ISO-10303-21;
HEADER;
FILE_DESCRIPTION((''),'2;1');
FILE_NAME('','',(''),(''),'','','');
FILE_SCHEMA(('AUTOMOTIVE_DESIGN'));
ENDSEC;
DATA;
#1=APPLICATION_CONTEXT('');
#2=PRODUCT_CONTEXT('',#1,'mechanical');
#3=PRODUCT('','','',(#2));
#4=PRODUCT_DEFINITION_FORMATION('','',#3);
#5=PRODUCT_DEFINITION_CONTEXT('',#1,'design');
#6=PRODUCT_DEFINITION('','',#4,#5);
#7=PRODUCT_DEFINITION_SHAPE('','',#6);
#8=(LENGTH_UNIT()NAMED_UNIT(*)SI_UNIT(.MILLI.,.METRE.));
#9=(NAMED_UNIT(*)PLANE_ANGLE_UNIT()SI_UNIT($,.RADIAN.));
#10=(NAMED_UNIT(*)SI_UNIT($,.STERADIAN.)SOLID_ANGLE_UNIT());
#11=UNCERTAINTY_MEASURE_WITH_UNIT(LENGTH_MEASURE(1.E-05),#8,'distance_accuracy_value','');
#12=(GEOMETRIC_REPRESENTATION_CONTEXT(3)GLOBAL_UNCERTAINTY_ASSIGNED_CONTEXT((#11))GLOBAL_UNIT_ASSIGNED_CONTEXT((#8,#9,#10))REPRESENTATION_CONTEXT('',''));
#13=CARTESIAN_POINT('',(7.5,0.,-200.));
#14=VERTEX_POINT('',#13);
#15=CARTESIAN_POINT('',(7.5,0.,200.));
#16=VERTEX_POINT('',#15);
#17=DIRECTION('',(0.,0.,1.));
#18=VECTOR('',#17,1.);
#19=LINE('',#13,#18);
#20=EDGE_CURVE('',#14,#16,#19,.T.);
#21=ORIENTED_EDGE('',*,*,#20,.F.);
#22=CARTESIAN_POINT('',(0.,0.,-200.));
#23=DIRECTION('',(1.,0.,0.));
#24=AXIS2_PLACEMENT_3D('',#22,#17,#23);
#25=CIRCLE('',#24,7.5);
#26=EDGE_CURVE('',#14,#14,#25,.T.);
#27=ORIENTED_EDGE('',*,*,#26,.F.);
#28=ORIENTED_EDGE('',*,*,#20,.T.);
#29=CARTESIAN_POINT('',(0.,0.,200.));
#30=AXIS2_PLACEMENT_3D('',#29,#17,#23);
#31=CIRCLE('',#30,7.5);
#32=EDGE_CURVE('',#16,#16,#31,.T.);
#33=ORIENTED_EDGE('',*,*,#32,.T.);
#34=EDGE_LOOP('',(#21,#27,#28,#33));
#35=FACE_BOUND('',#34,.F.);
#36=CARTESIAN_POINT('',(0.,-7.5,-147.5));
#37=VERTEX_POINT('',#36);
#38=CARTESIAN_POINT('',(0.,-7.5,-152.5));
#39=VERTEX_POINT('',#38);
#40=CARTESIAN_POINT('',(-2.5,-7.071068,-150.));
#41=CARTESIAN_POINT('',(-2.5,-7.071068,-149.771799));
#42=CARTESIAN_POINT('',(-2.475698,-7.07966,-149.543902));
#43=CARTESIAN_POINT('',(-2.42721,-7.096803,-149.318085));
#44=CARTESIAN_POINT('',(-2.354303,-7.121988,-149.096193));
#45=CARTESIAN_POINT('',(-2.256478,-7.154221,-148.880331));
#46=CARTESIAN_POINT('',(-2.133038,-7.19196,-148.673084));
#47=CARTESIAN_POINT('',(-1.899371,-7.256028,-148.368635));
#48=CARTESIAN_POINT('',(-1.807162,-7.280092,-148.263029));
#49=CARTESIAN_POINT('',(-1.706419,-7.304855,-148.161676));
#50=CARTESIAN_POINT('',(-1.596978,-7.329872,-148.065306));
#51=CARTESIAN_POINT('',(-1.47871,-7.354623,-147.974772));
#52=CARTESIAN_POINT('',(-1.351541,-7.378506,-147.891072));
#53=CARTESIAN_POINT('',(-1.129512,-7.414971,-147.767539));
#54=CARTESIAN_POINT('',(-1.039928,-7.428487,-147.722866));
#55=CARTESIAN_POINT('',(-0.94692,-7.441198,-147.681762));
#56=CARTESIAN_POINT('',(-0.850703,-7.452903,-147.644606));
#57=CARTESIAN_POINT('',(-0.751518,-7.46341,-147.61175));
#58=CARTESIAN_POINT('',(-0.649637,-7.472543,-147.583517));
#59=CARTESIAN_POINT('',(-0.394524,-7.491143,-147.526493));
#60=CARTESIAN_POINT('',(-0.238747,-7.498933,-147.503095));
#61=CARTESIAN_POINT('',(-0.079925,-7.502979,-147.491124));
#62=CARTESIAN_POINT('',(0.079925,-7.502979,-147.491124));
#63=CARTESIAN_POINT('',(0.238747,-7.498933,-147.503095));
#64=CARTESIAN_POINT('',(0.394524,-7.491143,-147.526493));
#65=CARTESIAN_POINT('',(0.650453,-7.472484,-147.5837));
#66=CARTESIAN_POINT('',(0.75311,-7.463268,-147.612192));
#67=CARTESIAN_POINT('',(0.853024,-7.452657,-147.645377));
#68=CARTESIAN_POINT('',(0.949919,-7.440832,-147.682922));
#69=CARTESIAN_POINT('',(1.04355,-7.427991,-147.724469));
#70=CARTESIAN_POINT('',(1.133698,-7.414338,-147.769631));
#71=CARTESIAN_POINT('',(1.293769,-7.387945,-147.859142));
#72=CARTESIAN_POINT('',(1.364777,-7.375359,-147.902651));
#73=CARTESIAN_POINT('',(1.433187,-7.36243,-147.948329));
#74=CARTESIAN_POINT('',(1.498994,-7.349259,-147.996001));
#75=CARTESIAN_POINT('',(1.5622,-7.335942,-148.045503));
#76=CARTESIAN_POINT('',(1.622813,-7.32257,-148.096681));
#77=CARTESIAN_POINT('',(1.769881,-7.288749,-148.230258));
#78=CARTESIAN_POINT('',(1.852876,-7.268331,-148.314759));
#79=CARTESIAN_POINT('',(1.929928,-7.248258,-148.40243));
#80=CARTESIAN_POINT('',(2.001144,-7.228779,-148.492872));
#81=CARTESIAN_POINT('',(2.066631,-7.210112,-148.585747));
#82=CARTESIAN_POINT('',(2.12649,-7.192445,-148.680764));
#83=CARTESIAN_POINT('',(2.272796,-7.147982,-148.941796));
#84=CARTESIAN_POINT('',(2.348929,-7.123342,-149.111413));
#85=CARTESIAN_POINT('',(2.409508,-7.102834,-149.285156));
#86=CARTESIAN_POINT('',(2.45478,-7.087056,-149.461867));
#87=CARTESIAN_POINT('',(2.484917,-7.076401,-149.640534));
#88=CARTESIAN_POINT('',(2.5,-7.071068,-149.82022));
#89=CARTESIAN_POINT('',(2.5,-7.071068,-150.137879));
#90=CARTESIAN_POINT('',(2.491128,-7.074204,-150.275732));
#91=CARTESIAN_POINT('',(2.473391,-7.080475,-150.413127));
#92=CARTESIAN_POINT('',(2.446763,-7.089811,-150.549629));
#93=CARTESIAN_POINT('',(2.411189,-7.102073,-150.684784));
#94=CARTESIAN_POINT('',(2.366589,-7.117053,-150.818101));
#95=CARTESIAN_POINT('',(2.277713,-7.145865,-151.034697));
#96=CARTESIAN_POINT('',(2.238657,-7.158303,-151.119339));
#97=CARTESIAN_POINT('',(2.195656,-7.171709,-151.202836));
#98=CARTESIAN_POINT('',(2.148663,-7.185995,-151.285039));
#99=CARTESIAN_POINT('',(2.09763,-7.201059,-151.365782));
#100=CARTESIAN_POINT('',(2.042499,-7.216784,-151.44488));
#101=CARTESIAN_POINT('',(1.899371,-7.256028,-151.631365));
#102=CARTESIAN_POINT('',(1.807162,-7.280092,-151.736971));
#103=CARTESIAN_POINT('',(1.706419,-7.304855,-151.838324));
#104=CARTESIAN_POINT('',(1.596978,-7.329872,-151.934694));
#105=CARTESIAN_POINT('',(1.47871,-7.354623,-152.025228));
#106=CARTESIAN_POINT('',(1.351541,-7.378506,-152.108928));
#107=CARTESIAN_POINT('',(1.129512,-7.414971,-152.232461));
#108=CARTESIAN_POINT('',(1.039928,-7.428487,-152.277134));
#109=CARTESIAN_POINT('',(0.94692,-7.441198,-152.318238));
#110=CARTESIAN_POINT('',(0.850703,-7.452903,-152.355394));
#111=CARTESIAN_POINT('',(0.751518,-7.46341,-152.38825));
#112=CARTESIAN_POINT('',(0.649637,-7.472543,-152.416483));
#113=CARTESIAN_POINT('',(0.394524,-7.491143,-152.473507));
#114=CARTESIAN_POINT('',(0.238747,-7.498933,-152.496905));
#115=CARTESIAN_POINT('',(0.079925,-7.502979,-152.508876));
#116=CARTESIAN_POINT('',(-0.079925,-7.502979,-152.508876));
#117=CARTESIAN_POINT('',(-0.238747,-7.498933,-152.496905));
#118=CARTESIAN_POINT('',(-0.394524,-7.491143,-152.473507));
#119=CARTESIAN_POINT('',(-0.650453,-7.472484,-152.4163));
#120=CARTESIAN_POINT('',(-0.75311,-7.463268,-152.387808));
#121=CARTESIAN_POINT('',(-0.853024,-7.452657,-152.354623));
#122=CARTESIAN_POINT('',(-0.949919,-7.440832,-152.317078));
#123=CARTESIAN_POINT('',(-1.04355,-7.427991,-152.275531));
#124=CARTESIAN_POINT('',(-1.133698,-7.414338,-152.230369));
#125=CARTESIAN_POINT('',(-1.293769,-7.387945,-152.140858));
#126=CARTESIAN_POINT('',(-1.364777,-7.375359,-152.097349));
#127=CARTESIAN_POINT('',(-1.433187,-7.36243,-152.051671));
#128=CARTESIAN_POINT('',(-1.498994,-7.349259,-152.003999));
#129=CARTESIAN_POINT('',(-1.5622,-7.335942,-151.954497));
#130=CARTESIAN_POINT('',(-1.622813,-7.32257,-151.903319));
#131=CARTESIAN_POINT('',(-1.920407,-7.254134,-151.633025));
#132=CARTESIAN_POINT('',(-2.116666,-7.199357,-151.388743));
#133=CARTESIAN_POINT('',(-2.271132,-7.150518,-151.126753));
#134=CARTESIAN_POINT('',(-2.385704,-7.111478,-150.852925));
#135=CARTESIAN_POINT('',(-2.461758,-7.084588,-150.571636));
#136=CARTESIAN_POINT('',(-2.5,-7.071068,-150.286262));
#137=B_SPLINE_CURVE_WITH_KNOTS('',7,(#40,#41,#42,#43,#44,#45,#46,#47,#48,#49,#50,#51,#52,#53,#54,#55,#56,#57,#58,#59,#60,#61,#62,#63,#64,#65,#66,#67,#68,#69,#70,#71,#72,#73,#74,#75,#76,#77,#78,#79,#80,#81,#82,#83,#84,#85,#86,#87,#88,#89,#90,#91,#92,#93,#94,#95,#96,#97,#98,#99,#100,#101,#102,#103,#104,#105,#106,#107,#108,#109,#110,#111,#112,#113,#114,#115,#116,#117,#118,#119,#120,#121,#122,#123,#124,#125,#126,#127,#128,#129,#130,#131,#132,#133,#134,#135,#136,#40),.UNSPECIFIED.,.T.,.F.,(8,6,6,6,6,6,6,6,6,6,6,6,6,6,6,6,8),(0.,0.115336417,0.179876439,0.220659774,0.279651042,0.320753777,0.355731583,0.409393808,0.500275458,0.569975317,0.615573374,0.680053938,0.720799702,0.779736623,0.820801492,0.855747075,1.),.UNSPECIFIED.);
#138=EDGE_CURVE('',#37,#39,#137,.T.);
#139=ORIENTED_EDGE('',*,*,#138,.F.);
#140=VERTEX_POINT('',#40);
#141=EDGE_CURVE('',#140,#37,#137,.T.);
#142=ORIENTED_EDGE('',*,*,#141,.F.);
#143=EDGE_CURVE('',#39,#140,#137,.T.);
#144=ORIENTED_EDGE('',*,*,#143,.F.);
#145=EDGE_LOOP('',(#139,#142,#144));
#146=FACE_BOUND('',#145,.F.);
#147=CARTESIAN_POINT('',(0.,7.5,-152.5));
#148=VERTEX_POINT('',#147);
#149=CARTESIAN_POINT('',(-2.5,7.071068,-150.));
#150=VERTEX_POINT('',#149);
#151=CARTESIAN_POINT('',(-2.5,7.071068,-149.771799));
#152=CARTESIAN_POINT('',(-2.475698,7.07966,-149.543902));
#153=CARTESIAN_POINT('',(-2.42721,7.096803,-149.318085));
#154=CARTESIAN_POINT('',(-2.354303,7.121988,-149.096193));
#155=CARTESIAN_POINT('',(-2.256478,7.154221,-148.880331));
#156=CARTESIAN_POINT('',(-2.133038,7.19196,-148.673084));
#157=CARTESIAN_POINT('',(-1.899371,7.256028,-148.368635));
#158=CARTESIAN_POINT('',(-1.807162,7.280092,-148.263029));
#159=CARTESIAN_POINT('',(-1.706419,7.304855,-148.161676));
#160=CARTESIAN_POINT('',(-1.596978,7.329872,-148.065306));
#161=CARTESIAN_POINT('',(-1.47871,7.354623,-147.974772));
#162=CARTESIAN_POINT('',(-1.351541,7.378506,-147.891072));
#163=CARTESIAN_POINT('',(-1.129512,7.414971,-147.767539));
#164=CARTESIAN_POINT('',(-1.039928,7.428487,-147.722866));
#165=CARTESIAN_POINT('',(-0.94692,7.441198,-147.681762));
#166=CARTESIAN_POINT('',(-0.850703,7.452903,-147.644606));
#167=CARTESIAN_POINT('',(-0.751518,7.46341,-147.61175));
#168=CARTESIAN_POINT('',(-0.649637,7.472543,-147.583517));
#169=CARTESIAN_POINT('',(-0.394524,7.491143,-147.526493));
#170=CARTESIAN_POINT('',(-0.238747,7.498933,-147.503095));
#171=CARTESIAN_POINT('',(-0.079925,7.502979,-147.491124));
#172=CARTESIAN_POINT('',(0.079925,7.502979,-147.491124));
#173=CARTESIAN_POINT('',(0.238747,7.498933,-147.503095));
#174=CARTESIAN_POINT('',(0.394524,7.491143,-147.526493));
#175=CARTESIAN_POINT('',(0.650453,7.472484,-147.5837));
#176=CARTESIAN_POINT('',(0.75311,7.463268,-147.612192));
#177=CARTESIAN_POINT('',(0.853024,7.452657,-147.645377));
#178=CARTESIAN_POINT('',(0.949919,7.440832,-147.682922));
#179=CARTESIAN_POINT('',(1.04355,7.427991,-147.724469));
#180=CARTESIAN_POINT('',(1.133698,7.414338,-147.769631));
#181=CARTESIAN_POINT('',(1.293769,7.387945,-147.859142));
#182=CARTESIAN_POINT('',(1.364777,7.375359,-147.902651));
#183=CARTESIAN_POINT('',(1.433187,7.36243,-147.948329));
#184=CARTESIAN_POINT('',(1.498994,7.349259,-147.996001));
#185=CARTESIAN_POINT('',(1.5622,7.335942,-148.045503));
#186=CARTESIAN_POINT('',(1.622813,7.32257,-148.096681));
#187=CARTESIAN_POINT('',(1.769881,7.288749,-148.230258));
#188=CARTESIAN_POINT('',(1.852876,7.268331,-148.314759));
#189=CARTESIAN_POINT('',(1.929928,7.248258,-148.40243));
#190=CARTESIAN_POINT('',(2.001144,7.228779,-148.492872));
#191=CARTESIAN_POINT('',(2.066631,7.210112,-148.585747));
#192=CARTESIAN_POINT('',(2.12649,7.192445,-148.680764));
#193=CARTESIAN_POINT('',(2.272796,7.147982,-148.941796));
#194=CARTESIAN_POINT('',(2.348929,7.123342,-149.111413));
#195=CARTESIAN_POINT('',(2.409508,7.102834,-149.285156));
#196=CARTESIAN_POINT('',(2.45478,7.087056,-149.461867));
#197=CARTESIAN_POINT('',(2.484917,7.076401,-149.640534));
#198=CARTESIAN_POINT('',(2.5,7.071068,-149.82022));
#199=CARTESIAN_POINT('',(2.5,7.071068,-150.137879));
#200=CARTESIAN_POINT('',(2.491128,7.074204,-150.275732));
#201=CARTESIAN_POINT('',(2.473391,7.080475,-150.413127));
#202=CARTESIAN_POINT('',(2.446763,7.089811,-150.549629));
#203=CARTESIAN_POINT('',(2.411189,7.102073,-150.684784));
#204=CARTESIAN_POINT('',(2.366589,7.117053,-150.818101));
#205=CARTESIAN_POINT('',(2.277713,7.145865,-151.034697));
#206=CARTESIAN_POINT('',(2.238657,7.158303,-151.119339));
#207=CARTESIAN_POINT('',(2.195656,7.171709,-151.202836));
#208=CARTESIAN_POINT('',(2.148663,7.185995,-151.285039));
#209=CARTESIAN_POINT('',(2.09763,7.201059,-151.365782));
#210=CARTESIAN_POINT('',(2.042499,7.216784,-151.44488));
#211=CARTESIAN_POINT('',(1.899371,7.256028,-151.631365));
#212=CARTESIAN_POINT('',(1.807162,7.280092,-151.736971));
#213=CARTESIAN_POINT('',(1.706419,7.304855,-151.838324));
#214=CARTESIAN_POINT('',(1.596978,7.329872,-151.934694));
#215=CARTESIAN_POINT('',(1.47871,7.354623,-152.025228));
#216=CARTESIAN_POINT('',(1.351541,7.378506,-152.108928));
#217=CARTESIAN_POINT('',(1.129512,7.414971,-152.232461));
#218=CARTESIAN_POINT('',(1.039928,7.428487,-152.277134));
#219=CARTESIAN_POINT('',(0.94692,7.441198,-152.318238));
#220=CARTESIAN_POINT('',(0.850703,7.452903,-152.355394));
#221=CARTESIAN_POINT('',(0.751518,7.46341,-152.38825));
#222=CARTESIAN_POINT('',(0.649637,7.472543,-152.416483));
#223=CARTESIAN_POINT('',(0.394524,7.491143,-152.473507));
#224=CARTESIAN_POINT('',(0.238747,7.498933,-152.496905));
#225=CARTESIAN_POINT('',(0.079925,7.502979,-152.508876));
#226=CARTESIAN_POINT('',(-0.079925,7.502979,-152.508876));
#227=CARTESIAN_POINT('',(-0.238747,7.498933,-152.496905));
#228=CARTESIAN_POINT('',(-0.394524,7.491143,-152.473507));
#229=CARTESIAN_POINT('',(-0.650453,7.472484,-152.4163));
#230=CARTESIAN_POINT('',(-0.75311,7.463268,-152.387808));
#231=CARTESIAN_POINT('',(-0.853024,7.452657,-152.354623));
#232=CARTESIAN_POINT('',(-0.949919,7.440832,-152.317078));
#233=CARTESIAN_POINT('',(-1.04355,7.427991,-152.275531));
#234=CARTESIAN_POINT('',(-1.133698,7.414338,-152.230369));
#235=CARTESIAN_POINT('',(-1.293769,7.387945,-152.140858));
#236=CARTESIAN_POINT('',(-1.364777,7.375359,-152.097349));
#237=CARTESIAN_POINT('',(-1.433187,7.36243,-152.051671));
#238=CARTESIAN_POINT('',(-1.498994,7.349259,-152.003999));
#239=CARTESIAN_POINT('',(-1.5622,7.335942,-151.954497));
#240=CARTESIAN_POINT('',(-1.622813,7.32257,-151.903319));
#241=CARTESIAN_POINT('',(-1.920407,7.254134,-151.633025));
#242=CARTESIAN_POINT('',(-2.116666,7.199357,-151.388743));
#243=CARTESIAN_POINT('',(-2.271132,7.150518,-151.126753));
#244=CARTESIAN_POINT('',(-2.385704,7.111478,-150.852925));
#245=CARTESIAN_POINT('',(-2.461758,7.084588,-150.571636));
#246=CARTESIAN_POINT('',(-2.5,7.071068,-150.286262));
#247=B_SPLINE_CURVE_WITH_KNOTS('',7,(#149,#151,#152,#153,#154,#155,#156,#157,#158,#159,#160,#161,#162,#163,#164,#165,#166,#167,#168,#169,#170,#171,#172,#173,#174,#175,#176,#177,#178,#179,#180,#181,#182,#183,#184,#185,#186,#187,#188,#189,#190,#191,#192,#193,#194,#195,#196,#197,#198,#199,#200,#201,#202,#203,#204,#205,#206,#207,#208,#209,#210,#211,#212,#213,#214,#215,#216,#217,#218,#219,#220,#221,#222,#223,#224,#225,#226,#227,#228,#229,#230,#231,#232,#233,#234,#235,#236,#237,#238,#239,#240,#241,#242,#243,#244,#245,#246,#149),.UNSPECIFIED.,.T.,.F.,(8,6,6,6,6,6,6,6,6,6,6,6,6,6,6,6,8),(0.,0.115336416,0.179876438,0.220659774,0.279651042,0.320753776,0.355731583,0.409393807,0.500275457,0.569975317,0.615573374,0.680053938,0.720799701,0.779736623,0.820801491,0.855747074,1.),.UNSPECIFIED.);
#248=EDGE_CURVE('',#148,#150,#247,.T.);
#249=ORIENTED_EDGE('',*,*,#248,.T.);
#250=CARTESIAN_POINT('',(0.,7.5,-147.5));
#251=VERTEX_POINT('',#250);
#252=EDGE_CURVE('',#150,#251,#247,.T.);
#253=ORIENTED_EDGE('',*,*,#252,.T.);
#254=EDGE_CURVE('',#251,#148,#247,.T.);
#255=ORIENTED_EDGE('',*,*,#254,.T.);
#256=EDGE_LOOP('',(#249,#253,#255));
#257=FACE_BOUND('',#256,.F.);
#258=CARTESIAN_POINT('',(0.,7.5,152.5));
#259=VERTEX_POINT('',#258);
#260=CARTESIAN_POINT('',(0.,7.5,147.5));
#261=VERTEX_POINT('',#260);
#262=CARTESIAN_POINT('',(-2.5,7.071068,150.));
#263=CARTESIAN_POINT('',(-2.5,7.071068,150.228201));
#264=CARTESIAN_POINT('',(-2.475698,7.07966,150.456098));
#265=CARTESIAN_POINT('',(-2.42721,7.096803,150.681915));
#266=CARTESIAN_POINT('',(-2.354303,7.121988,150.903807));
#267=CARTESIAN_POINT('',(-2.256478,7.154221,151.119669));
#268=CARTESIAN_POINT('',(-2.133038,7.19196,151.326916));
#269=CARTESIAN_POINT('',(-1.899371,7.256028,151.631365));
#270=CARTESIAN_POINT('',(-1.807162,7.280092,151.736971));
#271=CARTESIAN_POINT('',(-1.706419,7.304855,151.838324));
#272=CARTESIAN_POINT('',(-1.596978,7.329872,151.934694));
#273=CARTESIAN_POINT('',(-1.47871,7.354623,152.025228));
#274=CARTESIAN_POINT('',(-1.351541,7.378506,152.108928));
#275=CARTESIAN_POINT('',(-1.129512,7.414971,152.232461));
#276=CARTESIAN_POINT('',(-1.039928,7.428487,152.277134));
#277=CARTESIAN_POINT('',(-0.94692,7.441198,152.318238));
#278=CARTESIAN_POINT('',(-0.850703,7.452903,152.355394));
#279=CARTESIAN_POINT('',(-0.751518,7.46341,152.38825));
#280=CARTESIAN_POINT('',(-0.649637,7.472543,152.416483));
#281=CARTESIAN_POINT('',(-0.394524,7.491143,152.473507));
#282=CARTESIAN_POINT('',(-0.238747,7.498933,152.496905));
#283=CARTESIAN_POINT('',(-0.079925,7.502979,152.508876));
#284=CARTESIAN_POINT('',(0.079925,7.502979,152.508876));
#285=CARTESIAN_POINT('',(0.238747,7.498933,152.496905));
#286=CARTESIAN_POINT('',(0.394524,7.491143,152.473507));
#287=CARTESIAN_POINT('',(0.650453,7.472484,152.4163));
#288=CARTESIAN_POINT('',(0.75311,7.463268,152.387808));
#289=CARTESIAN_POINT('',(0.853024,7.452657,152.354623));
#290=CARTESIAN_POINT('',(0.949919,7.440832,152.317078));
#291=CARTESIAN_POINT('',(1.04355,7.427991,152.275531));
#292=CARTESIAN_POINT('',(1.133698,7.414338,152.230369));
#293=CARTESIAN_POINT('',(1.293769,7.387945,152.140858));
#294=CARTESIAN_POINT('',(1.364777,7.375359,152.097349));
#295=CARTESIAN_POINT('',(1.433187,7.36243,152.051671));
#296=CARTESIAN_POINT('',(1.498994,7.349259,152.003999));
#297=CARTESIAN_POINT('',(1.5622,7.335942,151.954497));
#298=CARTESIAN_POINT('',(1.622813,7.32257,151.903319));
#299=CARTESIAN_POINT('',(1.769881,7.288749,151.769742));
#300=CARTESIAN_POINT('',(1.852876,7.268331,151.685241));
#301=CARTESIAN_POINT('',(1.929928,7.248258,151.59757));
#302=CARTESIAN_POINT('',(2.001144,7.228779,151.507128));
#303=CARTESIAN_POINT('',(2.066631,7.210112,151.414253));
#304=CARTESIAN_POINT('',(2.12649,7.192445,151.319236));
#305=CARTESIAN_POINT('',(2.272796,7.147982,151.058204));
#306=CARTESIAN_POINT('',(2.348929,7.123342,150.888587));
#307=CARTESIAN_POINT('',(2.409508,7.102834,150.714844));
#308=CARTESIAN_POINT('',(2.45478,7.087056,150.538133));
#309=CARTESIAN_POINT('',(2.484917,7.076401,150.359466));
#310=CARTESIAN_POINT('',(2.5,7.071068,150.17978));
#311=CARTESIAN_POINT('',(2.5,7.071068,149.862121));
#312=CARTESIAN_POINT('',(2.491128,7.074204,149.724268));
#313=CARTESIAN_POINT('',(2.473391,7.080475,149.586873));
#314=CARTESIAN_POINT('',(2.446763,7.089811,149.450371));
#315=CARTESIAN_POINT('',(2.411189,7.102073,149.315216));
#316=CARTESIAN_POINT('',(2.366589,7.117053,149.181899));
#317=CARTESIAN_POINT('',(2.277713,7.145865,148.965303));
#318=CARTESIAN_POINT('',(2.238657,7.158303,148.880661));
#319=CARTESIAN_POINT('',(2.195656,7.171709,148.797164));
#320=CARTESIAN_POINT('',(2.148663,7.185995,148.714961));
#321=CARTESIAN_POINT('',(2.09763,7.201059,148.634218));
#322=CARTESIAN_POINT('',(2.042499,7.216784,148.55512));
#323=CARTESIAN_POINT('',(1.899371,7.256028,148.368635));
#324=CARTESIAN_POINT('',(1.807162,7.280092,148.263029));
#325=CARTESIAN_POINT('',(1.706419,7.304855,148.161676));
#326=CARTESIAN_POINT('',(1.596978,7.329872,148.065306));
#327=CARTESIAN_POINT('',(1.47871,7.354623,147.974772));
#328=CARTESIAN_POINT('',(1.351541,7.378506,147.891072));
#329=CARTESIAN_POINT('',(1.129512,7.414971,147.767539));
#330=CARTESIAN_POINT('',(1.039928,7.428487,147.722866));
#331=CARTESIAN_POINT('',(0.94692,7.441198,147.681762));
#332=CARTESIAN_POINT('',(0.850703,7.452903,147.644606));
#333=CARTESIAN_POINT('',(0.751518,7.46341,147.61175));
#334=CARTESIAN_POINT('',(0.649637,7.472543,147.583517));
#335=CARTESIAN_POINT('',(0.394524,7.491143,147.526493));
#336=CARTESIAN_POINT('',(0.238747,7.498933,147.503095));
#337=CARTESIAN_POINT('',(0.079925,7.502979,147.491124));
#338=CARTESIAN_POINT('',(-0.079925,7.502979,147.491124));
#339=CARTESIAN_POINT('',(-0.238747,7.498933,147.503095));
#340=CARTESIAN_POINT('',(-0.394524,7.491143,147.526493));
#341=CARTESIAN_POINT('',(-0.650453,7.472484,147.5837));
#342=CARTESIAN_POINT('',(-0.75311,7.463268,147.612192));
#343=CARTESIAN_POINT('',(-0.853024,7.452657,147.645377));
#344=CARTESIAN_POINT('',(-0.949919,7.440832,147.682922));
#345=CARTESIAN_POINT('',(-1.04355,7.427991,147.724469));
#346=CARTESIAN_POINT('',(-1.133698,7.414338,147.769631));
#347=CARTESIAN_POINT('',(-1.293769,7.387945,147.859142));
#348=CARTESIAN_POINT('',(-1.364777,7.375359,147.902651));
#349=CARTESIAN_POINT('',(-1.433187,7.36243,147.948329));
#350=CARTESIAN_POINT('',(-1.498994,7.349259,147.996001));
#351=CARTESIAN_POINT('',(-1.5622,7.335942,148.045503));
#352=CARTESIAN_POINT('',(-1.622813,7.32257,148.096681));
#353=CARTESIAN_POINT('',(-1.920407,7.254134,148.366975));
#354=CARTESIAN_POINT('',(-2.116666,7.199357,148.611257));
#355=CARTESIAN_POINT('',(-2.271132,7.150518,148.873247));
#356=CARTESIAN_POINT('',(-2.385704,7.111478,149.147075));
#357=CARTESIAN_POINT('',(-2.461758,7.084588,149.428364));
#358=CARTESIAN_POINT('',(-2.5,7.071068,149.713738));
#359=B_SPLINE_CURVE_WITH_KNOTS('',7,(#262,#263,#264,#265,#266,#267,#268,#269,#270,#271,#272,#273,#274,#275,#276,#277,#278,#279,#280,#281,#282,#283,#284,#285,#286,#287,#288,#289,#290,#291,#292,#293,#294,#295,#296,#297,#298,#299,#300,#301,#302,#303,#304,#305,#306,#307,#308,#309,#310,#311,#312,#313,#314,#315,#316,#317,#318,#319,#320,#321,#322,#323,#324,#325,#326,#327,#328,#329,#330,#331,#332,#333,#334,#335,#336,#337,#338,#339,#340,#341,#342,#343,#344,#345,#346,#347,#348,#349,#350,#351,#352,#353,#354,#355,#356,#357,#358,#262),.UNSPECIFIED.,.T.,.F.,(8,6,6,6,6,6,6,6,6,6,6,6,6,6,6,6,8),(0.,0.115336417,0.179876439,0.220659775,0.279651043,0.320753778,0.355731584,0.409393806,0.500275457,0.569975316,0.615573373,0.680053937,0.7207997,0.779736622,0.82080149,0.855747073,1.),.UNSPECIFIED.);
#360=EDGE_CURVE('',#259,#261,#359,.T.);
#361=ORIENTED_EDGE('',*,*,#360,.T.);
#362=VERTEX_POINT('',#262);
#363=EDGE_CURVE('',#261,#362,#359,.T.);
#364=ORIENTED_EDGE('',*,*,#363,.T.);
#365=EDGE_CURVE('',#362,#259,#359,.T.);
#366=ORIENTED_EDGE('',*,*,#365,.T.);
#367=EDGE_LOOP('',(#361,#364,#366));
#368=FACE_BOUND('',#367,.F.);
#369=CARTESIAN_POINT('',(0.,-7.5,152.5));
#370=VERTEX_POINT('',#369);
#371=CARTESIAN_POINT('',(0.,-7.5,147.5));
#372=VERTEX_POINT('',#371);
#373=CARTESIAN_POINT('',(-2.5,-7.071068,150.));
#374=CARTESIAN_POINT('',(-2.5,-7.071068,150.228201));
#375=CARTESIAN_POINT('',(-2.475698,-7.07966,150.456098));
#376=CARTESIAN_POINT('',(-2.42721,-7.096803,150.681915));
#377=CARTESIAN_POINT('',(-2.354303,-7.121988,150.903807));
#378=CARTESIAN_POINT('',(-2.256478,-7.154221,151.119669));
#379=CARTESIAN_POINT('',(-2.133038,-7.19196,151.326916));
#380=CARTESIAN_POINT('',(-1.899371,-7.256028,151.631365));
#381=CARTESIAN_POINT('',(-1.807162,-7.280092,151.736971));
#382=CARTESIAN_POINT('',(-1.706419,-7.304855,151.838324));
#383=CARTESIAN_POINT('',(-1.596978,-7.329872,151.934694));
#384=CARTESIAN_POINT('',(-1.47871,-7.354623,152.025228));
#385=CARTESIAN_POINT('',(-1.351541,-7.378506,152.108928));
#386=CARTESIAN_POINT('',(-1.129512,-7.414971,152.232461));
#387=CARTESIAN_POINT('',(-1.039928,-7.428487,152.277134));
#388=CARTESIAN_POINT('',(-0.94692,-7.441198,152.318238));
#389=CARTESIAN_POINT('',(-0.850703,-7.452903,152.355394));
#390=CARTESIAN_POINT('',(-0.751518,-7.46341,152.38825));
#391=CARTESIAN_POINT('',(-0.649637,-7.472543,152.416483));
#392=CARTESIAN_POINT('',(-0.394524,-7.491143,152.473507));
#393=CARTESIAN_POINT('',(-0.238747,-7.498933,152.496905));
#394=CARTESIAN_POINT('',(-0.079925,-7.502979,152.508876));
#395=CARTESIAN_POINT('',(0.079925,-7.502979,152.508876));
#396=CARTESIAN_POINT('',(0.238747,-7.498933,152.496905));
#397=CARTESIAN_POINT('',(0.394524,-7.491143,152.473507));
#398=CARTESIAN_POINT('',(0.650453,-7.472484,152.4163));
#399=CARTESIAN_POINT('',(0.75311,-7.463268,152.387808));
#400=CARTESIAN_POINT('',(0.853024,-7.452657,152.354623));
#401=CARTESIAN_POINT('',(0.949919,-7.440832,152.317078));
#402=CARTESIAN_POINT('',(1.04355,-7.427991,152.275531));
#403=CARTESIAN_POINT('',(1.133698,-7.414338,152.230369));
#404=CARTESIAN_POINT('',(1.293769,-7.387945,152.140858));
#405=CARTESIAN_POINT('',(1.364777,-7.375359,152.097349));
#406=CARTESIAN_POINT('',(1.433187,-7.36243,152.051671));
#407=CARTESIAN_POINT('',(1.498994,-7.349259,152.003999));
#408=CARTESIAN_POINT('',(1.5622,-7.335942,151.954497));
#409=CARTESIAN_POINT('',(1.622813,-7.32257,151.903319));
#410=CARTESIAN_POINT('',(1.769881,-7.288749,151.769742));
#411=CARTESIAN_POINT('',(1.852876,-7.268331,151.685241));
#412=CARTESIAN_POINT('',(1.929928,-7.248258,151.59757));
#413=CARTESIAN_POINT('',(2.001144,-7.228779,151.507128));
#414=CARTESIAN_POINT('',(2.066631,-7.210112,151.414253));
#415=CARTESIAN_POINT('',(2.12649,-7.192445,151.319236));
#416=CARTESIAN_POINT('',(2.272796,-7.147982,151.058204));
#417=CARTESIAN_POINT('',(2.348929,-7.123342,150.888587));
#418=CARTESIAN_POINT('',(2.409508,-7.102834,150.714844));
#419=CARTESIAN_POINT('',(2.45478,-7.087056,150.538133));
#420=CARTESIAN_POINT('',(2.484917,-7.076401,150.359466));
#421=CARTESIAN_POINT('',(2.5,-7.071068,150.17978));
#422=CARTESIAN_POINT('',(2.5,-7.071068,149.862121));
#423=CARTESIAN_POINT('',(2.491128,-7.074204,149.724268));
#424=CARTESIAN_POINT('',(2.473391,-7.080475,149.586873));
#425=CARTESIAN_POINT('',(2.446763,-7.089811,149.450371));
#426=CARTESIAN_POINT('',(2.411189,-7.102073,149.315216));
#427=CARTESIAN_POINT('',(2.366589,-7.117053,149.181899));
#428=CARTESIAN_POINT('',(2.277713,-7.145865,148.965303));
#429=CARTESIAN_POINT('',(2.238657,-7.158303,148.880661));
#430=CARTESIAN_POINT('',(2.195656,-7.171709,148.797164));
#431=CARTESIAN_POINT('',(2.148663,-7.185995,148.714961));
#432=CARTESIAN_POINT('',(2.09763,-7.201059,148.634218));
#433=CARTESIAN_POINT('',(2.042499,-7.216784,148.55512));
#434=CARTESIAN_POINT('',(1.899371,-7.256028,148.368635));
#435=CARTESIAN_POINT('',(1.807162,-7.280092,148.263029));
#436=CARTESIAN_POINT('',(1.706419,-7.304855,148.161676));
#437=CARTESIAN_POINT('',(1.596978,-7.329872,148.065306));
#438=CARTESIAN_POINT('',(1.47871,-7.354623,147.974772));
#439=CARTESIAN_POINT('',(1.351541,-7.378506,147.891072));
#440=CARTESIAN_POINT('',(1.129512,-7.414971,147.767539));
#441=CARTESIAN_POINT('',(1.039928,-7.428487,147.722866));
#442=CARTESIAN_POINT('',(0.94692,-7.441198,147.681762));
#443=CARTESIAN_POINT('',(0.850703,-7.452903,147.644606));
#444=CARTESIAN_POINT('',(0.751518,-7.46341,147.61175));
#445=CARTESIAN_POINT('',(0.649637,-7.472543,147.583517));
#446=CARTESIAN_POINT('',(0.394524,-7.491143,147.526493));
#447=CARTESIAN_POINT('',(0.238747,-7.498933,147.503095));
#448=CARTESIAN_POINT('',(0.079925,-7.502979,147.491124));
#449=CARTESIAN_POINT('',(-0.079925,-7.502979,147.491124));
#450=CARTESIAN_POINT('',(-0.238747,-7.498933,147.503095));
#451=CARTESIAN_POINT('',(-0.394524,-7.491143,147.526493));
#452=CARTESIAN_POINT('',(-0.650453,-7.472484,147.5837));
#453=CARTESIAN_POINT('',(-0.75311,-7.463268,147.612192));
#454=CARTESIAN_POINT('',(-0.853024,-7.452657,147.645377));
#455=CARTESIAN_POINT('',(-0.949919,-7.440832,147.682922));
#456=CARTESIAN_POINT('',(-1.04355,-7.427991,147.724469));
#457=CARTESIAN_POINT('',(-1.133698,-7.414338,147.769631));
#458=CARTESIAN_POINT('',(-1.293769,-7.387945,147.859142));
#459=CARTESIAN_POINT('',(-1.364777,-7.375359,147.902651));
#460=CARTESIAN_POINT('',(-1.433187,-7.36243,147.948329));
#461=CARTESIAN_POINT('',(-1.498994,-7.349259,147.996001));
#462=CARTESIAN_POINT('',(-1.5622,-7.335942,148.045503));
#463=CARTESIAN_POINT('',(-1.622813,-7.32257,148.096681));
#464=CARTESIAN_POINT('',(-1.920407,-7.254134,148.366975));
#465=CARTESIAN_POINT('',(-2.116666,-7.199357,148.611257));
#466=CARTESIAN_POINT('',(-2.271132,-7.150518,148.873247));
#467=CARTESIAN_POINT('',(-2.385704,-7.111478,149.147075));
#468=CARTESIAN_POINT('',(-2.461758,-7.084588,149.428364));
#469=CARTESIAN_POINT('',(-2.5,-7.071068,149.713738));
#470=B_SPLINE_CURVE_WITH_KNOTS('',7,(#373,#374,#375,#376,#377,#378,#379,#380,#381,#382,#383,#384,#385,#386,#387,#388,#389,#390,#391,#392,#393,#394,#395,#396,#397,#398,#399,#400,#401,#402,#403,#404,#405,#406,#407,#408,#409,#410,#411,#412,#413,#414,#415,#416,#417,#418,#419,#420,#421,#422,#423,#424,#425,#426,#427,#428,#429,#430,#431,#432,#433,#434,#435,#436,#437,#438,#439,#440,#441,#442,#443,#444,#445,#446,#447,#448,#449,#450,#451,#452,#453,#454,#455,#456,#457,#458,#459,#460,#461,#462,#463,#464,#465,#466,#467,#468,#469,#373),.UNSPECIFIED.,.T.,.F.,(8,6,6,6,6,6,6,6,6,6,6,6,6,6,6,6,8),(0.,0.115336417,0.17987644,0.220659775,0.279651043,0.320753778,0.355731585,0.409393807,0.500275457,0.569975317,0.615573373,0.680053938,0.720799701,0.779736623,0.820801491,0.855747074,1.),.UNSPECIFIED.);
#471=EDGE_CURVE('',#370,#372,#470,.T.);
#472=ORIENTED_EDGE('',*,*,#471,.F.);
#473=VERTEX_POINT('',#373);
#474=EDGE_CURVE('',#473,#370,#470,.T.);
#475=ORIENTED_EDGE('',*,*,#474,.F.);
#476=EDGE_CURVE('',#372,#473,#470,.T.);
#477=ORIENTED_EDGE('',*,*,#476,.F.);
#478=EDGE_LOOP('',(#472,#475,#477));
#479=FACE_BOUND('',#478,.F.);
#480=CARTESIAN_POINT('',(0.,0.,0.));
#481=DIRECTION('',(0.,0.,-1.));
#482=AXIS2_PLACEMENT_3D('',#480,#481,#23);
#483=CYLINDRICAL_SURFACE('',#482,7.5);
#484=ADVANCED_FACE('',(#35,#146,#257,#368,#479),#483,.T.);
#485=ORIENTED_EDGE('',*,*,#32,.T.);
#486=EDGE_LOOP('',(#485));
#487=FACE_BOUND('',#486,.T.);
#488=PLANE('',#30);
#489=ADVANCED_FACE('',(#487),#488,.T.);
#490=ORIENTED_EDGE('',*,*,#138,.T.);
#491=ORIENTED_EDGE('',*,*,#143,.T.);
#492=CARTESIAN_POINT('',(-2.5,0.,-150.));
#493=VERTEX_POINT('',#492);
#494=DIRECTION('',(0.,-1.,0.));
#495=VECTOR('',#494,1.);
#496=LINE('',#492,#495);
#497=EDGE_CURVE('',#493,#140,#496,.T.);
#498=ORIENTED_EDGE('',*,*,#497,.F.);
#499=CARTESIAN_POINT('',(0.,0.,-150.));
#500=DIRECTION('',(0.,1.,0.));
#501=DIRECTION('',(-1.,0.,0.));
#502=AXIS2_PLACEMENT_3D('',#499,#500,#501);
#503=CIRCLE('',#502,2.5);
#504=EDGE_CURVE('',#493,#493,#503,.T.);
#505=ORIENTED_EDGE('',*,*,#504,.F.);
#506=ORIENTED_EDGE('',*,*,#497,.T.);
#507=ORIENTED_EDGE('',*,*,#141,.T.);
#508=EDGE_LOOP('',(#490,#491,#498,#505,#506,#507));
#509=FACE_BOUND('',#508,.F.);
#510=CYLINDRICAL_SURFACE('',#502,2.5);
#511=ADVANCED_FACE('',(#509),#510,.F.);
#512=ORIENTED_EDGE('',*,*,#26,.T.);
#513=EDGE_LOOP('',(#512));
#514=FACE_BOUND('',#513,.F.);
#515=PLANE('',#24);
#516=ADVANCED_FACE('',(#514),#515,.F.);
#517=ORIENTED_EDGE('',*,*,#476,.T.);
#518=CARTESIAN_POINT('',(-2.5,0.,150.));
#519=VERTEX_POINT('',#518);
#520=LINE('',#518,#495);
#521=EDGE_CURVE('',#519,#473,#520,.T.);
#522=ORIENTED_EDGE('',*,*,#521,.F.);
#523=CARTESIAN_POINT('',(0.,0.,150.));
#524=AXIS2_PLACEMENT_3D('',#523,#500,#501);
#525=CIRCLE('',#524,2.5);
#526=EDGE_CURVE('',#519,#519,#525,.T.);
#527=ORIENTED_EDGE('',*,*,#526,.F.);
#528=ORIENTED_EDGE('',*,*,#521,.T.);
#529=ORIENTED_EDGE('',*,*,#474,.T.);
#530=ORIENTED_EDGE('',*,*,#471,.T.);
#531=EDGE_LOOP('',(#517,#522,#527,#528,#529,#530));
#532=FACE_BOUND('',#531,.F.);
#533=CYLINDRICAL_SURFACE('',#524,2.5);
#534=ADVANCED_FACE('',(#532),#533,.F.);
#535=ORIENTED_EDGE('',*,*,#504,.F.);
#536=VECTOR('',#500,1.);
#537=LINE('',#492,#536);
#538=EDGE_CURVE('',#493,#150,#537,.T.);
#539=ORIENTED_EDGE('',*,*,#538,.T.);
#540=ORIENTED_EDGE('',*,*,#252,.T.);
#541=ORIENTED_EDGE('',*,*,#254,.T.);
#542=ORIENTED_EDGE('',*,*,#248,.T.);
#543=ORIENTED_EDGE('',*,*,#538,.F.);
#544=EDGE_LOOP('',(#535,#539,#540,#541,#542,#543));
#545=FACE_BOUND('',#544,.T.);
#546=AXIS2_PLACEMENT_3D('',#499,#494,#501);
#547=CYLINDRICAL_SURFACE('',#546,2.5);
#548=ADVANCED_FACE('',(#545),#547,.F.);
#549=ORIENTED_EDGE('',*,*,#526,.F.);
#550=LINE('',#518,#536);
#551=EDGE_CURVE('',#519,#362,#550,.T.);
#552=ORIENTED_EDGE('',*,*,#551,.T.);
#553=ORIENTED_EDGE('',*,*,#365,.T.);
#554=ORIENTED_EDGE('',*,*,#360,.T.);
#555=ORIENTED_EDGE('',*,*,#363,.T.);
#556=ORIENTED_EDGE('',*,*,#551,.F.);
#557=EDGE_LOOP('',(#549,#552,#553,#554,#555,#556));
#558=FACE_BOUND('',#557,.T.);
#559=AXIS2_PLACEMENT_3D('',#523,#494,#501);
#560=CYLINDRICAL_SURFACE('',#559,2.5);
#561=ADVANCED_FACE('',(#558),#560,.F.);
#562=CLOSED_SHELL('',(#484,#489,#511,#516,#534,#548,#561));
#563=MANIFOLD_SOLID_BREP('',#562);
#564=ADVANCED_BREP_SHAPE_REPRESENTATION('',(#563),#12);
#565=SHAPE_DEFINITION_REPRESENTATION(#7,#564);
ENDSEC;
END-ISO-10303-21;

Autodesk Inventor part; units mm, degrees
ref_plane "YZ Plane" through (0, 0, 0) normal (1, 0, 0) x (0, 1, 0)
ref_plane "XZ Plane" through (0, 0, 0) normal (0, 1, 0) x (-1, 0, 0)
ref_plane "XY Plane" through (0, 0, 0) normal (0, 0, 1) x (1, 0, 0)
sketch "Skizze1" plane through (0, 0, 0) normal (0, 0, 1) x (1, 0, 0)
  circle A0 centre (0, 0) radius 7.5
  dimension "d0" = 15
extrude "Extrusion1" add sketch "Skizze1" along normal mid plane 400
sketch "Skizze3" plane through (0, 0, 0) normal (0, 1, 0) x (-1, 0, 0)
  circle A0 centre (0, 150) radius 2.5
  circle A1 centre (0, -150) radius 2.5
  point P0 (0, 0)
  dimension "d7" = 5
  dimension "d8" = 5
extrude "Extrusion3" cut sketch "Skizze3" along normal mid plane 15
properties part number "Stange test"
